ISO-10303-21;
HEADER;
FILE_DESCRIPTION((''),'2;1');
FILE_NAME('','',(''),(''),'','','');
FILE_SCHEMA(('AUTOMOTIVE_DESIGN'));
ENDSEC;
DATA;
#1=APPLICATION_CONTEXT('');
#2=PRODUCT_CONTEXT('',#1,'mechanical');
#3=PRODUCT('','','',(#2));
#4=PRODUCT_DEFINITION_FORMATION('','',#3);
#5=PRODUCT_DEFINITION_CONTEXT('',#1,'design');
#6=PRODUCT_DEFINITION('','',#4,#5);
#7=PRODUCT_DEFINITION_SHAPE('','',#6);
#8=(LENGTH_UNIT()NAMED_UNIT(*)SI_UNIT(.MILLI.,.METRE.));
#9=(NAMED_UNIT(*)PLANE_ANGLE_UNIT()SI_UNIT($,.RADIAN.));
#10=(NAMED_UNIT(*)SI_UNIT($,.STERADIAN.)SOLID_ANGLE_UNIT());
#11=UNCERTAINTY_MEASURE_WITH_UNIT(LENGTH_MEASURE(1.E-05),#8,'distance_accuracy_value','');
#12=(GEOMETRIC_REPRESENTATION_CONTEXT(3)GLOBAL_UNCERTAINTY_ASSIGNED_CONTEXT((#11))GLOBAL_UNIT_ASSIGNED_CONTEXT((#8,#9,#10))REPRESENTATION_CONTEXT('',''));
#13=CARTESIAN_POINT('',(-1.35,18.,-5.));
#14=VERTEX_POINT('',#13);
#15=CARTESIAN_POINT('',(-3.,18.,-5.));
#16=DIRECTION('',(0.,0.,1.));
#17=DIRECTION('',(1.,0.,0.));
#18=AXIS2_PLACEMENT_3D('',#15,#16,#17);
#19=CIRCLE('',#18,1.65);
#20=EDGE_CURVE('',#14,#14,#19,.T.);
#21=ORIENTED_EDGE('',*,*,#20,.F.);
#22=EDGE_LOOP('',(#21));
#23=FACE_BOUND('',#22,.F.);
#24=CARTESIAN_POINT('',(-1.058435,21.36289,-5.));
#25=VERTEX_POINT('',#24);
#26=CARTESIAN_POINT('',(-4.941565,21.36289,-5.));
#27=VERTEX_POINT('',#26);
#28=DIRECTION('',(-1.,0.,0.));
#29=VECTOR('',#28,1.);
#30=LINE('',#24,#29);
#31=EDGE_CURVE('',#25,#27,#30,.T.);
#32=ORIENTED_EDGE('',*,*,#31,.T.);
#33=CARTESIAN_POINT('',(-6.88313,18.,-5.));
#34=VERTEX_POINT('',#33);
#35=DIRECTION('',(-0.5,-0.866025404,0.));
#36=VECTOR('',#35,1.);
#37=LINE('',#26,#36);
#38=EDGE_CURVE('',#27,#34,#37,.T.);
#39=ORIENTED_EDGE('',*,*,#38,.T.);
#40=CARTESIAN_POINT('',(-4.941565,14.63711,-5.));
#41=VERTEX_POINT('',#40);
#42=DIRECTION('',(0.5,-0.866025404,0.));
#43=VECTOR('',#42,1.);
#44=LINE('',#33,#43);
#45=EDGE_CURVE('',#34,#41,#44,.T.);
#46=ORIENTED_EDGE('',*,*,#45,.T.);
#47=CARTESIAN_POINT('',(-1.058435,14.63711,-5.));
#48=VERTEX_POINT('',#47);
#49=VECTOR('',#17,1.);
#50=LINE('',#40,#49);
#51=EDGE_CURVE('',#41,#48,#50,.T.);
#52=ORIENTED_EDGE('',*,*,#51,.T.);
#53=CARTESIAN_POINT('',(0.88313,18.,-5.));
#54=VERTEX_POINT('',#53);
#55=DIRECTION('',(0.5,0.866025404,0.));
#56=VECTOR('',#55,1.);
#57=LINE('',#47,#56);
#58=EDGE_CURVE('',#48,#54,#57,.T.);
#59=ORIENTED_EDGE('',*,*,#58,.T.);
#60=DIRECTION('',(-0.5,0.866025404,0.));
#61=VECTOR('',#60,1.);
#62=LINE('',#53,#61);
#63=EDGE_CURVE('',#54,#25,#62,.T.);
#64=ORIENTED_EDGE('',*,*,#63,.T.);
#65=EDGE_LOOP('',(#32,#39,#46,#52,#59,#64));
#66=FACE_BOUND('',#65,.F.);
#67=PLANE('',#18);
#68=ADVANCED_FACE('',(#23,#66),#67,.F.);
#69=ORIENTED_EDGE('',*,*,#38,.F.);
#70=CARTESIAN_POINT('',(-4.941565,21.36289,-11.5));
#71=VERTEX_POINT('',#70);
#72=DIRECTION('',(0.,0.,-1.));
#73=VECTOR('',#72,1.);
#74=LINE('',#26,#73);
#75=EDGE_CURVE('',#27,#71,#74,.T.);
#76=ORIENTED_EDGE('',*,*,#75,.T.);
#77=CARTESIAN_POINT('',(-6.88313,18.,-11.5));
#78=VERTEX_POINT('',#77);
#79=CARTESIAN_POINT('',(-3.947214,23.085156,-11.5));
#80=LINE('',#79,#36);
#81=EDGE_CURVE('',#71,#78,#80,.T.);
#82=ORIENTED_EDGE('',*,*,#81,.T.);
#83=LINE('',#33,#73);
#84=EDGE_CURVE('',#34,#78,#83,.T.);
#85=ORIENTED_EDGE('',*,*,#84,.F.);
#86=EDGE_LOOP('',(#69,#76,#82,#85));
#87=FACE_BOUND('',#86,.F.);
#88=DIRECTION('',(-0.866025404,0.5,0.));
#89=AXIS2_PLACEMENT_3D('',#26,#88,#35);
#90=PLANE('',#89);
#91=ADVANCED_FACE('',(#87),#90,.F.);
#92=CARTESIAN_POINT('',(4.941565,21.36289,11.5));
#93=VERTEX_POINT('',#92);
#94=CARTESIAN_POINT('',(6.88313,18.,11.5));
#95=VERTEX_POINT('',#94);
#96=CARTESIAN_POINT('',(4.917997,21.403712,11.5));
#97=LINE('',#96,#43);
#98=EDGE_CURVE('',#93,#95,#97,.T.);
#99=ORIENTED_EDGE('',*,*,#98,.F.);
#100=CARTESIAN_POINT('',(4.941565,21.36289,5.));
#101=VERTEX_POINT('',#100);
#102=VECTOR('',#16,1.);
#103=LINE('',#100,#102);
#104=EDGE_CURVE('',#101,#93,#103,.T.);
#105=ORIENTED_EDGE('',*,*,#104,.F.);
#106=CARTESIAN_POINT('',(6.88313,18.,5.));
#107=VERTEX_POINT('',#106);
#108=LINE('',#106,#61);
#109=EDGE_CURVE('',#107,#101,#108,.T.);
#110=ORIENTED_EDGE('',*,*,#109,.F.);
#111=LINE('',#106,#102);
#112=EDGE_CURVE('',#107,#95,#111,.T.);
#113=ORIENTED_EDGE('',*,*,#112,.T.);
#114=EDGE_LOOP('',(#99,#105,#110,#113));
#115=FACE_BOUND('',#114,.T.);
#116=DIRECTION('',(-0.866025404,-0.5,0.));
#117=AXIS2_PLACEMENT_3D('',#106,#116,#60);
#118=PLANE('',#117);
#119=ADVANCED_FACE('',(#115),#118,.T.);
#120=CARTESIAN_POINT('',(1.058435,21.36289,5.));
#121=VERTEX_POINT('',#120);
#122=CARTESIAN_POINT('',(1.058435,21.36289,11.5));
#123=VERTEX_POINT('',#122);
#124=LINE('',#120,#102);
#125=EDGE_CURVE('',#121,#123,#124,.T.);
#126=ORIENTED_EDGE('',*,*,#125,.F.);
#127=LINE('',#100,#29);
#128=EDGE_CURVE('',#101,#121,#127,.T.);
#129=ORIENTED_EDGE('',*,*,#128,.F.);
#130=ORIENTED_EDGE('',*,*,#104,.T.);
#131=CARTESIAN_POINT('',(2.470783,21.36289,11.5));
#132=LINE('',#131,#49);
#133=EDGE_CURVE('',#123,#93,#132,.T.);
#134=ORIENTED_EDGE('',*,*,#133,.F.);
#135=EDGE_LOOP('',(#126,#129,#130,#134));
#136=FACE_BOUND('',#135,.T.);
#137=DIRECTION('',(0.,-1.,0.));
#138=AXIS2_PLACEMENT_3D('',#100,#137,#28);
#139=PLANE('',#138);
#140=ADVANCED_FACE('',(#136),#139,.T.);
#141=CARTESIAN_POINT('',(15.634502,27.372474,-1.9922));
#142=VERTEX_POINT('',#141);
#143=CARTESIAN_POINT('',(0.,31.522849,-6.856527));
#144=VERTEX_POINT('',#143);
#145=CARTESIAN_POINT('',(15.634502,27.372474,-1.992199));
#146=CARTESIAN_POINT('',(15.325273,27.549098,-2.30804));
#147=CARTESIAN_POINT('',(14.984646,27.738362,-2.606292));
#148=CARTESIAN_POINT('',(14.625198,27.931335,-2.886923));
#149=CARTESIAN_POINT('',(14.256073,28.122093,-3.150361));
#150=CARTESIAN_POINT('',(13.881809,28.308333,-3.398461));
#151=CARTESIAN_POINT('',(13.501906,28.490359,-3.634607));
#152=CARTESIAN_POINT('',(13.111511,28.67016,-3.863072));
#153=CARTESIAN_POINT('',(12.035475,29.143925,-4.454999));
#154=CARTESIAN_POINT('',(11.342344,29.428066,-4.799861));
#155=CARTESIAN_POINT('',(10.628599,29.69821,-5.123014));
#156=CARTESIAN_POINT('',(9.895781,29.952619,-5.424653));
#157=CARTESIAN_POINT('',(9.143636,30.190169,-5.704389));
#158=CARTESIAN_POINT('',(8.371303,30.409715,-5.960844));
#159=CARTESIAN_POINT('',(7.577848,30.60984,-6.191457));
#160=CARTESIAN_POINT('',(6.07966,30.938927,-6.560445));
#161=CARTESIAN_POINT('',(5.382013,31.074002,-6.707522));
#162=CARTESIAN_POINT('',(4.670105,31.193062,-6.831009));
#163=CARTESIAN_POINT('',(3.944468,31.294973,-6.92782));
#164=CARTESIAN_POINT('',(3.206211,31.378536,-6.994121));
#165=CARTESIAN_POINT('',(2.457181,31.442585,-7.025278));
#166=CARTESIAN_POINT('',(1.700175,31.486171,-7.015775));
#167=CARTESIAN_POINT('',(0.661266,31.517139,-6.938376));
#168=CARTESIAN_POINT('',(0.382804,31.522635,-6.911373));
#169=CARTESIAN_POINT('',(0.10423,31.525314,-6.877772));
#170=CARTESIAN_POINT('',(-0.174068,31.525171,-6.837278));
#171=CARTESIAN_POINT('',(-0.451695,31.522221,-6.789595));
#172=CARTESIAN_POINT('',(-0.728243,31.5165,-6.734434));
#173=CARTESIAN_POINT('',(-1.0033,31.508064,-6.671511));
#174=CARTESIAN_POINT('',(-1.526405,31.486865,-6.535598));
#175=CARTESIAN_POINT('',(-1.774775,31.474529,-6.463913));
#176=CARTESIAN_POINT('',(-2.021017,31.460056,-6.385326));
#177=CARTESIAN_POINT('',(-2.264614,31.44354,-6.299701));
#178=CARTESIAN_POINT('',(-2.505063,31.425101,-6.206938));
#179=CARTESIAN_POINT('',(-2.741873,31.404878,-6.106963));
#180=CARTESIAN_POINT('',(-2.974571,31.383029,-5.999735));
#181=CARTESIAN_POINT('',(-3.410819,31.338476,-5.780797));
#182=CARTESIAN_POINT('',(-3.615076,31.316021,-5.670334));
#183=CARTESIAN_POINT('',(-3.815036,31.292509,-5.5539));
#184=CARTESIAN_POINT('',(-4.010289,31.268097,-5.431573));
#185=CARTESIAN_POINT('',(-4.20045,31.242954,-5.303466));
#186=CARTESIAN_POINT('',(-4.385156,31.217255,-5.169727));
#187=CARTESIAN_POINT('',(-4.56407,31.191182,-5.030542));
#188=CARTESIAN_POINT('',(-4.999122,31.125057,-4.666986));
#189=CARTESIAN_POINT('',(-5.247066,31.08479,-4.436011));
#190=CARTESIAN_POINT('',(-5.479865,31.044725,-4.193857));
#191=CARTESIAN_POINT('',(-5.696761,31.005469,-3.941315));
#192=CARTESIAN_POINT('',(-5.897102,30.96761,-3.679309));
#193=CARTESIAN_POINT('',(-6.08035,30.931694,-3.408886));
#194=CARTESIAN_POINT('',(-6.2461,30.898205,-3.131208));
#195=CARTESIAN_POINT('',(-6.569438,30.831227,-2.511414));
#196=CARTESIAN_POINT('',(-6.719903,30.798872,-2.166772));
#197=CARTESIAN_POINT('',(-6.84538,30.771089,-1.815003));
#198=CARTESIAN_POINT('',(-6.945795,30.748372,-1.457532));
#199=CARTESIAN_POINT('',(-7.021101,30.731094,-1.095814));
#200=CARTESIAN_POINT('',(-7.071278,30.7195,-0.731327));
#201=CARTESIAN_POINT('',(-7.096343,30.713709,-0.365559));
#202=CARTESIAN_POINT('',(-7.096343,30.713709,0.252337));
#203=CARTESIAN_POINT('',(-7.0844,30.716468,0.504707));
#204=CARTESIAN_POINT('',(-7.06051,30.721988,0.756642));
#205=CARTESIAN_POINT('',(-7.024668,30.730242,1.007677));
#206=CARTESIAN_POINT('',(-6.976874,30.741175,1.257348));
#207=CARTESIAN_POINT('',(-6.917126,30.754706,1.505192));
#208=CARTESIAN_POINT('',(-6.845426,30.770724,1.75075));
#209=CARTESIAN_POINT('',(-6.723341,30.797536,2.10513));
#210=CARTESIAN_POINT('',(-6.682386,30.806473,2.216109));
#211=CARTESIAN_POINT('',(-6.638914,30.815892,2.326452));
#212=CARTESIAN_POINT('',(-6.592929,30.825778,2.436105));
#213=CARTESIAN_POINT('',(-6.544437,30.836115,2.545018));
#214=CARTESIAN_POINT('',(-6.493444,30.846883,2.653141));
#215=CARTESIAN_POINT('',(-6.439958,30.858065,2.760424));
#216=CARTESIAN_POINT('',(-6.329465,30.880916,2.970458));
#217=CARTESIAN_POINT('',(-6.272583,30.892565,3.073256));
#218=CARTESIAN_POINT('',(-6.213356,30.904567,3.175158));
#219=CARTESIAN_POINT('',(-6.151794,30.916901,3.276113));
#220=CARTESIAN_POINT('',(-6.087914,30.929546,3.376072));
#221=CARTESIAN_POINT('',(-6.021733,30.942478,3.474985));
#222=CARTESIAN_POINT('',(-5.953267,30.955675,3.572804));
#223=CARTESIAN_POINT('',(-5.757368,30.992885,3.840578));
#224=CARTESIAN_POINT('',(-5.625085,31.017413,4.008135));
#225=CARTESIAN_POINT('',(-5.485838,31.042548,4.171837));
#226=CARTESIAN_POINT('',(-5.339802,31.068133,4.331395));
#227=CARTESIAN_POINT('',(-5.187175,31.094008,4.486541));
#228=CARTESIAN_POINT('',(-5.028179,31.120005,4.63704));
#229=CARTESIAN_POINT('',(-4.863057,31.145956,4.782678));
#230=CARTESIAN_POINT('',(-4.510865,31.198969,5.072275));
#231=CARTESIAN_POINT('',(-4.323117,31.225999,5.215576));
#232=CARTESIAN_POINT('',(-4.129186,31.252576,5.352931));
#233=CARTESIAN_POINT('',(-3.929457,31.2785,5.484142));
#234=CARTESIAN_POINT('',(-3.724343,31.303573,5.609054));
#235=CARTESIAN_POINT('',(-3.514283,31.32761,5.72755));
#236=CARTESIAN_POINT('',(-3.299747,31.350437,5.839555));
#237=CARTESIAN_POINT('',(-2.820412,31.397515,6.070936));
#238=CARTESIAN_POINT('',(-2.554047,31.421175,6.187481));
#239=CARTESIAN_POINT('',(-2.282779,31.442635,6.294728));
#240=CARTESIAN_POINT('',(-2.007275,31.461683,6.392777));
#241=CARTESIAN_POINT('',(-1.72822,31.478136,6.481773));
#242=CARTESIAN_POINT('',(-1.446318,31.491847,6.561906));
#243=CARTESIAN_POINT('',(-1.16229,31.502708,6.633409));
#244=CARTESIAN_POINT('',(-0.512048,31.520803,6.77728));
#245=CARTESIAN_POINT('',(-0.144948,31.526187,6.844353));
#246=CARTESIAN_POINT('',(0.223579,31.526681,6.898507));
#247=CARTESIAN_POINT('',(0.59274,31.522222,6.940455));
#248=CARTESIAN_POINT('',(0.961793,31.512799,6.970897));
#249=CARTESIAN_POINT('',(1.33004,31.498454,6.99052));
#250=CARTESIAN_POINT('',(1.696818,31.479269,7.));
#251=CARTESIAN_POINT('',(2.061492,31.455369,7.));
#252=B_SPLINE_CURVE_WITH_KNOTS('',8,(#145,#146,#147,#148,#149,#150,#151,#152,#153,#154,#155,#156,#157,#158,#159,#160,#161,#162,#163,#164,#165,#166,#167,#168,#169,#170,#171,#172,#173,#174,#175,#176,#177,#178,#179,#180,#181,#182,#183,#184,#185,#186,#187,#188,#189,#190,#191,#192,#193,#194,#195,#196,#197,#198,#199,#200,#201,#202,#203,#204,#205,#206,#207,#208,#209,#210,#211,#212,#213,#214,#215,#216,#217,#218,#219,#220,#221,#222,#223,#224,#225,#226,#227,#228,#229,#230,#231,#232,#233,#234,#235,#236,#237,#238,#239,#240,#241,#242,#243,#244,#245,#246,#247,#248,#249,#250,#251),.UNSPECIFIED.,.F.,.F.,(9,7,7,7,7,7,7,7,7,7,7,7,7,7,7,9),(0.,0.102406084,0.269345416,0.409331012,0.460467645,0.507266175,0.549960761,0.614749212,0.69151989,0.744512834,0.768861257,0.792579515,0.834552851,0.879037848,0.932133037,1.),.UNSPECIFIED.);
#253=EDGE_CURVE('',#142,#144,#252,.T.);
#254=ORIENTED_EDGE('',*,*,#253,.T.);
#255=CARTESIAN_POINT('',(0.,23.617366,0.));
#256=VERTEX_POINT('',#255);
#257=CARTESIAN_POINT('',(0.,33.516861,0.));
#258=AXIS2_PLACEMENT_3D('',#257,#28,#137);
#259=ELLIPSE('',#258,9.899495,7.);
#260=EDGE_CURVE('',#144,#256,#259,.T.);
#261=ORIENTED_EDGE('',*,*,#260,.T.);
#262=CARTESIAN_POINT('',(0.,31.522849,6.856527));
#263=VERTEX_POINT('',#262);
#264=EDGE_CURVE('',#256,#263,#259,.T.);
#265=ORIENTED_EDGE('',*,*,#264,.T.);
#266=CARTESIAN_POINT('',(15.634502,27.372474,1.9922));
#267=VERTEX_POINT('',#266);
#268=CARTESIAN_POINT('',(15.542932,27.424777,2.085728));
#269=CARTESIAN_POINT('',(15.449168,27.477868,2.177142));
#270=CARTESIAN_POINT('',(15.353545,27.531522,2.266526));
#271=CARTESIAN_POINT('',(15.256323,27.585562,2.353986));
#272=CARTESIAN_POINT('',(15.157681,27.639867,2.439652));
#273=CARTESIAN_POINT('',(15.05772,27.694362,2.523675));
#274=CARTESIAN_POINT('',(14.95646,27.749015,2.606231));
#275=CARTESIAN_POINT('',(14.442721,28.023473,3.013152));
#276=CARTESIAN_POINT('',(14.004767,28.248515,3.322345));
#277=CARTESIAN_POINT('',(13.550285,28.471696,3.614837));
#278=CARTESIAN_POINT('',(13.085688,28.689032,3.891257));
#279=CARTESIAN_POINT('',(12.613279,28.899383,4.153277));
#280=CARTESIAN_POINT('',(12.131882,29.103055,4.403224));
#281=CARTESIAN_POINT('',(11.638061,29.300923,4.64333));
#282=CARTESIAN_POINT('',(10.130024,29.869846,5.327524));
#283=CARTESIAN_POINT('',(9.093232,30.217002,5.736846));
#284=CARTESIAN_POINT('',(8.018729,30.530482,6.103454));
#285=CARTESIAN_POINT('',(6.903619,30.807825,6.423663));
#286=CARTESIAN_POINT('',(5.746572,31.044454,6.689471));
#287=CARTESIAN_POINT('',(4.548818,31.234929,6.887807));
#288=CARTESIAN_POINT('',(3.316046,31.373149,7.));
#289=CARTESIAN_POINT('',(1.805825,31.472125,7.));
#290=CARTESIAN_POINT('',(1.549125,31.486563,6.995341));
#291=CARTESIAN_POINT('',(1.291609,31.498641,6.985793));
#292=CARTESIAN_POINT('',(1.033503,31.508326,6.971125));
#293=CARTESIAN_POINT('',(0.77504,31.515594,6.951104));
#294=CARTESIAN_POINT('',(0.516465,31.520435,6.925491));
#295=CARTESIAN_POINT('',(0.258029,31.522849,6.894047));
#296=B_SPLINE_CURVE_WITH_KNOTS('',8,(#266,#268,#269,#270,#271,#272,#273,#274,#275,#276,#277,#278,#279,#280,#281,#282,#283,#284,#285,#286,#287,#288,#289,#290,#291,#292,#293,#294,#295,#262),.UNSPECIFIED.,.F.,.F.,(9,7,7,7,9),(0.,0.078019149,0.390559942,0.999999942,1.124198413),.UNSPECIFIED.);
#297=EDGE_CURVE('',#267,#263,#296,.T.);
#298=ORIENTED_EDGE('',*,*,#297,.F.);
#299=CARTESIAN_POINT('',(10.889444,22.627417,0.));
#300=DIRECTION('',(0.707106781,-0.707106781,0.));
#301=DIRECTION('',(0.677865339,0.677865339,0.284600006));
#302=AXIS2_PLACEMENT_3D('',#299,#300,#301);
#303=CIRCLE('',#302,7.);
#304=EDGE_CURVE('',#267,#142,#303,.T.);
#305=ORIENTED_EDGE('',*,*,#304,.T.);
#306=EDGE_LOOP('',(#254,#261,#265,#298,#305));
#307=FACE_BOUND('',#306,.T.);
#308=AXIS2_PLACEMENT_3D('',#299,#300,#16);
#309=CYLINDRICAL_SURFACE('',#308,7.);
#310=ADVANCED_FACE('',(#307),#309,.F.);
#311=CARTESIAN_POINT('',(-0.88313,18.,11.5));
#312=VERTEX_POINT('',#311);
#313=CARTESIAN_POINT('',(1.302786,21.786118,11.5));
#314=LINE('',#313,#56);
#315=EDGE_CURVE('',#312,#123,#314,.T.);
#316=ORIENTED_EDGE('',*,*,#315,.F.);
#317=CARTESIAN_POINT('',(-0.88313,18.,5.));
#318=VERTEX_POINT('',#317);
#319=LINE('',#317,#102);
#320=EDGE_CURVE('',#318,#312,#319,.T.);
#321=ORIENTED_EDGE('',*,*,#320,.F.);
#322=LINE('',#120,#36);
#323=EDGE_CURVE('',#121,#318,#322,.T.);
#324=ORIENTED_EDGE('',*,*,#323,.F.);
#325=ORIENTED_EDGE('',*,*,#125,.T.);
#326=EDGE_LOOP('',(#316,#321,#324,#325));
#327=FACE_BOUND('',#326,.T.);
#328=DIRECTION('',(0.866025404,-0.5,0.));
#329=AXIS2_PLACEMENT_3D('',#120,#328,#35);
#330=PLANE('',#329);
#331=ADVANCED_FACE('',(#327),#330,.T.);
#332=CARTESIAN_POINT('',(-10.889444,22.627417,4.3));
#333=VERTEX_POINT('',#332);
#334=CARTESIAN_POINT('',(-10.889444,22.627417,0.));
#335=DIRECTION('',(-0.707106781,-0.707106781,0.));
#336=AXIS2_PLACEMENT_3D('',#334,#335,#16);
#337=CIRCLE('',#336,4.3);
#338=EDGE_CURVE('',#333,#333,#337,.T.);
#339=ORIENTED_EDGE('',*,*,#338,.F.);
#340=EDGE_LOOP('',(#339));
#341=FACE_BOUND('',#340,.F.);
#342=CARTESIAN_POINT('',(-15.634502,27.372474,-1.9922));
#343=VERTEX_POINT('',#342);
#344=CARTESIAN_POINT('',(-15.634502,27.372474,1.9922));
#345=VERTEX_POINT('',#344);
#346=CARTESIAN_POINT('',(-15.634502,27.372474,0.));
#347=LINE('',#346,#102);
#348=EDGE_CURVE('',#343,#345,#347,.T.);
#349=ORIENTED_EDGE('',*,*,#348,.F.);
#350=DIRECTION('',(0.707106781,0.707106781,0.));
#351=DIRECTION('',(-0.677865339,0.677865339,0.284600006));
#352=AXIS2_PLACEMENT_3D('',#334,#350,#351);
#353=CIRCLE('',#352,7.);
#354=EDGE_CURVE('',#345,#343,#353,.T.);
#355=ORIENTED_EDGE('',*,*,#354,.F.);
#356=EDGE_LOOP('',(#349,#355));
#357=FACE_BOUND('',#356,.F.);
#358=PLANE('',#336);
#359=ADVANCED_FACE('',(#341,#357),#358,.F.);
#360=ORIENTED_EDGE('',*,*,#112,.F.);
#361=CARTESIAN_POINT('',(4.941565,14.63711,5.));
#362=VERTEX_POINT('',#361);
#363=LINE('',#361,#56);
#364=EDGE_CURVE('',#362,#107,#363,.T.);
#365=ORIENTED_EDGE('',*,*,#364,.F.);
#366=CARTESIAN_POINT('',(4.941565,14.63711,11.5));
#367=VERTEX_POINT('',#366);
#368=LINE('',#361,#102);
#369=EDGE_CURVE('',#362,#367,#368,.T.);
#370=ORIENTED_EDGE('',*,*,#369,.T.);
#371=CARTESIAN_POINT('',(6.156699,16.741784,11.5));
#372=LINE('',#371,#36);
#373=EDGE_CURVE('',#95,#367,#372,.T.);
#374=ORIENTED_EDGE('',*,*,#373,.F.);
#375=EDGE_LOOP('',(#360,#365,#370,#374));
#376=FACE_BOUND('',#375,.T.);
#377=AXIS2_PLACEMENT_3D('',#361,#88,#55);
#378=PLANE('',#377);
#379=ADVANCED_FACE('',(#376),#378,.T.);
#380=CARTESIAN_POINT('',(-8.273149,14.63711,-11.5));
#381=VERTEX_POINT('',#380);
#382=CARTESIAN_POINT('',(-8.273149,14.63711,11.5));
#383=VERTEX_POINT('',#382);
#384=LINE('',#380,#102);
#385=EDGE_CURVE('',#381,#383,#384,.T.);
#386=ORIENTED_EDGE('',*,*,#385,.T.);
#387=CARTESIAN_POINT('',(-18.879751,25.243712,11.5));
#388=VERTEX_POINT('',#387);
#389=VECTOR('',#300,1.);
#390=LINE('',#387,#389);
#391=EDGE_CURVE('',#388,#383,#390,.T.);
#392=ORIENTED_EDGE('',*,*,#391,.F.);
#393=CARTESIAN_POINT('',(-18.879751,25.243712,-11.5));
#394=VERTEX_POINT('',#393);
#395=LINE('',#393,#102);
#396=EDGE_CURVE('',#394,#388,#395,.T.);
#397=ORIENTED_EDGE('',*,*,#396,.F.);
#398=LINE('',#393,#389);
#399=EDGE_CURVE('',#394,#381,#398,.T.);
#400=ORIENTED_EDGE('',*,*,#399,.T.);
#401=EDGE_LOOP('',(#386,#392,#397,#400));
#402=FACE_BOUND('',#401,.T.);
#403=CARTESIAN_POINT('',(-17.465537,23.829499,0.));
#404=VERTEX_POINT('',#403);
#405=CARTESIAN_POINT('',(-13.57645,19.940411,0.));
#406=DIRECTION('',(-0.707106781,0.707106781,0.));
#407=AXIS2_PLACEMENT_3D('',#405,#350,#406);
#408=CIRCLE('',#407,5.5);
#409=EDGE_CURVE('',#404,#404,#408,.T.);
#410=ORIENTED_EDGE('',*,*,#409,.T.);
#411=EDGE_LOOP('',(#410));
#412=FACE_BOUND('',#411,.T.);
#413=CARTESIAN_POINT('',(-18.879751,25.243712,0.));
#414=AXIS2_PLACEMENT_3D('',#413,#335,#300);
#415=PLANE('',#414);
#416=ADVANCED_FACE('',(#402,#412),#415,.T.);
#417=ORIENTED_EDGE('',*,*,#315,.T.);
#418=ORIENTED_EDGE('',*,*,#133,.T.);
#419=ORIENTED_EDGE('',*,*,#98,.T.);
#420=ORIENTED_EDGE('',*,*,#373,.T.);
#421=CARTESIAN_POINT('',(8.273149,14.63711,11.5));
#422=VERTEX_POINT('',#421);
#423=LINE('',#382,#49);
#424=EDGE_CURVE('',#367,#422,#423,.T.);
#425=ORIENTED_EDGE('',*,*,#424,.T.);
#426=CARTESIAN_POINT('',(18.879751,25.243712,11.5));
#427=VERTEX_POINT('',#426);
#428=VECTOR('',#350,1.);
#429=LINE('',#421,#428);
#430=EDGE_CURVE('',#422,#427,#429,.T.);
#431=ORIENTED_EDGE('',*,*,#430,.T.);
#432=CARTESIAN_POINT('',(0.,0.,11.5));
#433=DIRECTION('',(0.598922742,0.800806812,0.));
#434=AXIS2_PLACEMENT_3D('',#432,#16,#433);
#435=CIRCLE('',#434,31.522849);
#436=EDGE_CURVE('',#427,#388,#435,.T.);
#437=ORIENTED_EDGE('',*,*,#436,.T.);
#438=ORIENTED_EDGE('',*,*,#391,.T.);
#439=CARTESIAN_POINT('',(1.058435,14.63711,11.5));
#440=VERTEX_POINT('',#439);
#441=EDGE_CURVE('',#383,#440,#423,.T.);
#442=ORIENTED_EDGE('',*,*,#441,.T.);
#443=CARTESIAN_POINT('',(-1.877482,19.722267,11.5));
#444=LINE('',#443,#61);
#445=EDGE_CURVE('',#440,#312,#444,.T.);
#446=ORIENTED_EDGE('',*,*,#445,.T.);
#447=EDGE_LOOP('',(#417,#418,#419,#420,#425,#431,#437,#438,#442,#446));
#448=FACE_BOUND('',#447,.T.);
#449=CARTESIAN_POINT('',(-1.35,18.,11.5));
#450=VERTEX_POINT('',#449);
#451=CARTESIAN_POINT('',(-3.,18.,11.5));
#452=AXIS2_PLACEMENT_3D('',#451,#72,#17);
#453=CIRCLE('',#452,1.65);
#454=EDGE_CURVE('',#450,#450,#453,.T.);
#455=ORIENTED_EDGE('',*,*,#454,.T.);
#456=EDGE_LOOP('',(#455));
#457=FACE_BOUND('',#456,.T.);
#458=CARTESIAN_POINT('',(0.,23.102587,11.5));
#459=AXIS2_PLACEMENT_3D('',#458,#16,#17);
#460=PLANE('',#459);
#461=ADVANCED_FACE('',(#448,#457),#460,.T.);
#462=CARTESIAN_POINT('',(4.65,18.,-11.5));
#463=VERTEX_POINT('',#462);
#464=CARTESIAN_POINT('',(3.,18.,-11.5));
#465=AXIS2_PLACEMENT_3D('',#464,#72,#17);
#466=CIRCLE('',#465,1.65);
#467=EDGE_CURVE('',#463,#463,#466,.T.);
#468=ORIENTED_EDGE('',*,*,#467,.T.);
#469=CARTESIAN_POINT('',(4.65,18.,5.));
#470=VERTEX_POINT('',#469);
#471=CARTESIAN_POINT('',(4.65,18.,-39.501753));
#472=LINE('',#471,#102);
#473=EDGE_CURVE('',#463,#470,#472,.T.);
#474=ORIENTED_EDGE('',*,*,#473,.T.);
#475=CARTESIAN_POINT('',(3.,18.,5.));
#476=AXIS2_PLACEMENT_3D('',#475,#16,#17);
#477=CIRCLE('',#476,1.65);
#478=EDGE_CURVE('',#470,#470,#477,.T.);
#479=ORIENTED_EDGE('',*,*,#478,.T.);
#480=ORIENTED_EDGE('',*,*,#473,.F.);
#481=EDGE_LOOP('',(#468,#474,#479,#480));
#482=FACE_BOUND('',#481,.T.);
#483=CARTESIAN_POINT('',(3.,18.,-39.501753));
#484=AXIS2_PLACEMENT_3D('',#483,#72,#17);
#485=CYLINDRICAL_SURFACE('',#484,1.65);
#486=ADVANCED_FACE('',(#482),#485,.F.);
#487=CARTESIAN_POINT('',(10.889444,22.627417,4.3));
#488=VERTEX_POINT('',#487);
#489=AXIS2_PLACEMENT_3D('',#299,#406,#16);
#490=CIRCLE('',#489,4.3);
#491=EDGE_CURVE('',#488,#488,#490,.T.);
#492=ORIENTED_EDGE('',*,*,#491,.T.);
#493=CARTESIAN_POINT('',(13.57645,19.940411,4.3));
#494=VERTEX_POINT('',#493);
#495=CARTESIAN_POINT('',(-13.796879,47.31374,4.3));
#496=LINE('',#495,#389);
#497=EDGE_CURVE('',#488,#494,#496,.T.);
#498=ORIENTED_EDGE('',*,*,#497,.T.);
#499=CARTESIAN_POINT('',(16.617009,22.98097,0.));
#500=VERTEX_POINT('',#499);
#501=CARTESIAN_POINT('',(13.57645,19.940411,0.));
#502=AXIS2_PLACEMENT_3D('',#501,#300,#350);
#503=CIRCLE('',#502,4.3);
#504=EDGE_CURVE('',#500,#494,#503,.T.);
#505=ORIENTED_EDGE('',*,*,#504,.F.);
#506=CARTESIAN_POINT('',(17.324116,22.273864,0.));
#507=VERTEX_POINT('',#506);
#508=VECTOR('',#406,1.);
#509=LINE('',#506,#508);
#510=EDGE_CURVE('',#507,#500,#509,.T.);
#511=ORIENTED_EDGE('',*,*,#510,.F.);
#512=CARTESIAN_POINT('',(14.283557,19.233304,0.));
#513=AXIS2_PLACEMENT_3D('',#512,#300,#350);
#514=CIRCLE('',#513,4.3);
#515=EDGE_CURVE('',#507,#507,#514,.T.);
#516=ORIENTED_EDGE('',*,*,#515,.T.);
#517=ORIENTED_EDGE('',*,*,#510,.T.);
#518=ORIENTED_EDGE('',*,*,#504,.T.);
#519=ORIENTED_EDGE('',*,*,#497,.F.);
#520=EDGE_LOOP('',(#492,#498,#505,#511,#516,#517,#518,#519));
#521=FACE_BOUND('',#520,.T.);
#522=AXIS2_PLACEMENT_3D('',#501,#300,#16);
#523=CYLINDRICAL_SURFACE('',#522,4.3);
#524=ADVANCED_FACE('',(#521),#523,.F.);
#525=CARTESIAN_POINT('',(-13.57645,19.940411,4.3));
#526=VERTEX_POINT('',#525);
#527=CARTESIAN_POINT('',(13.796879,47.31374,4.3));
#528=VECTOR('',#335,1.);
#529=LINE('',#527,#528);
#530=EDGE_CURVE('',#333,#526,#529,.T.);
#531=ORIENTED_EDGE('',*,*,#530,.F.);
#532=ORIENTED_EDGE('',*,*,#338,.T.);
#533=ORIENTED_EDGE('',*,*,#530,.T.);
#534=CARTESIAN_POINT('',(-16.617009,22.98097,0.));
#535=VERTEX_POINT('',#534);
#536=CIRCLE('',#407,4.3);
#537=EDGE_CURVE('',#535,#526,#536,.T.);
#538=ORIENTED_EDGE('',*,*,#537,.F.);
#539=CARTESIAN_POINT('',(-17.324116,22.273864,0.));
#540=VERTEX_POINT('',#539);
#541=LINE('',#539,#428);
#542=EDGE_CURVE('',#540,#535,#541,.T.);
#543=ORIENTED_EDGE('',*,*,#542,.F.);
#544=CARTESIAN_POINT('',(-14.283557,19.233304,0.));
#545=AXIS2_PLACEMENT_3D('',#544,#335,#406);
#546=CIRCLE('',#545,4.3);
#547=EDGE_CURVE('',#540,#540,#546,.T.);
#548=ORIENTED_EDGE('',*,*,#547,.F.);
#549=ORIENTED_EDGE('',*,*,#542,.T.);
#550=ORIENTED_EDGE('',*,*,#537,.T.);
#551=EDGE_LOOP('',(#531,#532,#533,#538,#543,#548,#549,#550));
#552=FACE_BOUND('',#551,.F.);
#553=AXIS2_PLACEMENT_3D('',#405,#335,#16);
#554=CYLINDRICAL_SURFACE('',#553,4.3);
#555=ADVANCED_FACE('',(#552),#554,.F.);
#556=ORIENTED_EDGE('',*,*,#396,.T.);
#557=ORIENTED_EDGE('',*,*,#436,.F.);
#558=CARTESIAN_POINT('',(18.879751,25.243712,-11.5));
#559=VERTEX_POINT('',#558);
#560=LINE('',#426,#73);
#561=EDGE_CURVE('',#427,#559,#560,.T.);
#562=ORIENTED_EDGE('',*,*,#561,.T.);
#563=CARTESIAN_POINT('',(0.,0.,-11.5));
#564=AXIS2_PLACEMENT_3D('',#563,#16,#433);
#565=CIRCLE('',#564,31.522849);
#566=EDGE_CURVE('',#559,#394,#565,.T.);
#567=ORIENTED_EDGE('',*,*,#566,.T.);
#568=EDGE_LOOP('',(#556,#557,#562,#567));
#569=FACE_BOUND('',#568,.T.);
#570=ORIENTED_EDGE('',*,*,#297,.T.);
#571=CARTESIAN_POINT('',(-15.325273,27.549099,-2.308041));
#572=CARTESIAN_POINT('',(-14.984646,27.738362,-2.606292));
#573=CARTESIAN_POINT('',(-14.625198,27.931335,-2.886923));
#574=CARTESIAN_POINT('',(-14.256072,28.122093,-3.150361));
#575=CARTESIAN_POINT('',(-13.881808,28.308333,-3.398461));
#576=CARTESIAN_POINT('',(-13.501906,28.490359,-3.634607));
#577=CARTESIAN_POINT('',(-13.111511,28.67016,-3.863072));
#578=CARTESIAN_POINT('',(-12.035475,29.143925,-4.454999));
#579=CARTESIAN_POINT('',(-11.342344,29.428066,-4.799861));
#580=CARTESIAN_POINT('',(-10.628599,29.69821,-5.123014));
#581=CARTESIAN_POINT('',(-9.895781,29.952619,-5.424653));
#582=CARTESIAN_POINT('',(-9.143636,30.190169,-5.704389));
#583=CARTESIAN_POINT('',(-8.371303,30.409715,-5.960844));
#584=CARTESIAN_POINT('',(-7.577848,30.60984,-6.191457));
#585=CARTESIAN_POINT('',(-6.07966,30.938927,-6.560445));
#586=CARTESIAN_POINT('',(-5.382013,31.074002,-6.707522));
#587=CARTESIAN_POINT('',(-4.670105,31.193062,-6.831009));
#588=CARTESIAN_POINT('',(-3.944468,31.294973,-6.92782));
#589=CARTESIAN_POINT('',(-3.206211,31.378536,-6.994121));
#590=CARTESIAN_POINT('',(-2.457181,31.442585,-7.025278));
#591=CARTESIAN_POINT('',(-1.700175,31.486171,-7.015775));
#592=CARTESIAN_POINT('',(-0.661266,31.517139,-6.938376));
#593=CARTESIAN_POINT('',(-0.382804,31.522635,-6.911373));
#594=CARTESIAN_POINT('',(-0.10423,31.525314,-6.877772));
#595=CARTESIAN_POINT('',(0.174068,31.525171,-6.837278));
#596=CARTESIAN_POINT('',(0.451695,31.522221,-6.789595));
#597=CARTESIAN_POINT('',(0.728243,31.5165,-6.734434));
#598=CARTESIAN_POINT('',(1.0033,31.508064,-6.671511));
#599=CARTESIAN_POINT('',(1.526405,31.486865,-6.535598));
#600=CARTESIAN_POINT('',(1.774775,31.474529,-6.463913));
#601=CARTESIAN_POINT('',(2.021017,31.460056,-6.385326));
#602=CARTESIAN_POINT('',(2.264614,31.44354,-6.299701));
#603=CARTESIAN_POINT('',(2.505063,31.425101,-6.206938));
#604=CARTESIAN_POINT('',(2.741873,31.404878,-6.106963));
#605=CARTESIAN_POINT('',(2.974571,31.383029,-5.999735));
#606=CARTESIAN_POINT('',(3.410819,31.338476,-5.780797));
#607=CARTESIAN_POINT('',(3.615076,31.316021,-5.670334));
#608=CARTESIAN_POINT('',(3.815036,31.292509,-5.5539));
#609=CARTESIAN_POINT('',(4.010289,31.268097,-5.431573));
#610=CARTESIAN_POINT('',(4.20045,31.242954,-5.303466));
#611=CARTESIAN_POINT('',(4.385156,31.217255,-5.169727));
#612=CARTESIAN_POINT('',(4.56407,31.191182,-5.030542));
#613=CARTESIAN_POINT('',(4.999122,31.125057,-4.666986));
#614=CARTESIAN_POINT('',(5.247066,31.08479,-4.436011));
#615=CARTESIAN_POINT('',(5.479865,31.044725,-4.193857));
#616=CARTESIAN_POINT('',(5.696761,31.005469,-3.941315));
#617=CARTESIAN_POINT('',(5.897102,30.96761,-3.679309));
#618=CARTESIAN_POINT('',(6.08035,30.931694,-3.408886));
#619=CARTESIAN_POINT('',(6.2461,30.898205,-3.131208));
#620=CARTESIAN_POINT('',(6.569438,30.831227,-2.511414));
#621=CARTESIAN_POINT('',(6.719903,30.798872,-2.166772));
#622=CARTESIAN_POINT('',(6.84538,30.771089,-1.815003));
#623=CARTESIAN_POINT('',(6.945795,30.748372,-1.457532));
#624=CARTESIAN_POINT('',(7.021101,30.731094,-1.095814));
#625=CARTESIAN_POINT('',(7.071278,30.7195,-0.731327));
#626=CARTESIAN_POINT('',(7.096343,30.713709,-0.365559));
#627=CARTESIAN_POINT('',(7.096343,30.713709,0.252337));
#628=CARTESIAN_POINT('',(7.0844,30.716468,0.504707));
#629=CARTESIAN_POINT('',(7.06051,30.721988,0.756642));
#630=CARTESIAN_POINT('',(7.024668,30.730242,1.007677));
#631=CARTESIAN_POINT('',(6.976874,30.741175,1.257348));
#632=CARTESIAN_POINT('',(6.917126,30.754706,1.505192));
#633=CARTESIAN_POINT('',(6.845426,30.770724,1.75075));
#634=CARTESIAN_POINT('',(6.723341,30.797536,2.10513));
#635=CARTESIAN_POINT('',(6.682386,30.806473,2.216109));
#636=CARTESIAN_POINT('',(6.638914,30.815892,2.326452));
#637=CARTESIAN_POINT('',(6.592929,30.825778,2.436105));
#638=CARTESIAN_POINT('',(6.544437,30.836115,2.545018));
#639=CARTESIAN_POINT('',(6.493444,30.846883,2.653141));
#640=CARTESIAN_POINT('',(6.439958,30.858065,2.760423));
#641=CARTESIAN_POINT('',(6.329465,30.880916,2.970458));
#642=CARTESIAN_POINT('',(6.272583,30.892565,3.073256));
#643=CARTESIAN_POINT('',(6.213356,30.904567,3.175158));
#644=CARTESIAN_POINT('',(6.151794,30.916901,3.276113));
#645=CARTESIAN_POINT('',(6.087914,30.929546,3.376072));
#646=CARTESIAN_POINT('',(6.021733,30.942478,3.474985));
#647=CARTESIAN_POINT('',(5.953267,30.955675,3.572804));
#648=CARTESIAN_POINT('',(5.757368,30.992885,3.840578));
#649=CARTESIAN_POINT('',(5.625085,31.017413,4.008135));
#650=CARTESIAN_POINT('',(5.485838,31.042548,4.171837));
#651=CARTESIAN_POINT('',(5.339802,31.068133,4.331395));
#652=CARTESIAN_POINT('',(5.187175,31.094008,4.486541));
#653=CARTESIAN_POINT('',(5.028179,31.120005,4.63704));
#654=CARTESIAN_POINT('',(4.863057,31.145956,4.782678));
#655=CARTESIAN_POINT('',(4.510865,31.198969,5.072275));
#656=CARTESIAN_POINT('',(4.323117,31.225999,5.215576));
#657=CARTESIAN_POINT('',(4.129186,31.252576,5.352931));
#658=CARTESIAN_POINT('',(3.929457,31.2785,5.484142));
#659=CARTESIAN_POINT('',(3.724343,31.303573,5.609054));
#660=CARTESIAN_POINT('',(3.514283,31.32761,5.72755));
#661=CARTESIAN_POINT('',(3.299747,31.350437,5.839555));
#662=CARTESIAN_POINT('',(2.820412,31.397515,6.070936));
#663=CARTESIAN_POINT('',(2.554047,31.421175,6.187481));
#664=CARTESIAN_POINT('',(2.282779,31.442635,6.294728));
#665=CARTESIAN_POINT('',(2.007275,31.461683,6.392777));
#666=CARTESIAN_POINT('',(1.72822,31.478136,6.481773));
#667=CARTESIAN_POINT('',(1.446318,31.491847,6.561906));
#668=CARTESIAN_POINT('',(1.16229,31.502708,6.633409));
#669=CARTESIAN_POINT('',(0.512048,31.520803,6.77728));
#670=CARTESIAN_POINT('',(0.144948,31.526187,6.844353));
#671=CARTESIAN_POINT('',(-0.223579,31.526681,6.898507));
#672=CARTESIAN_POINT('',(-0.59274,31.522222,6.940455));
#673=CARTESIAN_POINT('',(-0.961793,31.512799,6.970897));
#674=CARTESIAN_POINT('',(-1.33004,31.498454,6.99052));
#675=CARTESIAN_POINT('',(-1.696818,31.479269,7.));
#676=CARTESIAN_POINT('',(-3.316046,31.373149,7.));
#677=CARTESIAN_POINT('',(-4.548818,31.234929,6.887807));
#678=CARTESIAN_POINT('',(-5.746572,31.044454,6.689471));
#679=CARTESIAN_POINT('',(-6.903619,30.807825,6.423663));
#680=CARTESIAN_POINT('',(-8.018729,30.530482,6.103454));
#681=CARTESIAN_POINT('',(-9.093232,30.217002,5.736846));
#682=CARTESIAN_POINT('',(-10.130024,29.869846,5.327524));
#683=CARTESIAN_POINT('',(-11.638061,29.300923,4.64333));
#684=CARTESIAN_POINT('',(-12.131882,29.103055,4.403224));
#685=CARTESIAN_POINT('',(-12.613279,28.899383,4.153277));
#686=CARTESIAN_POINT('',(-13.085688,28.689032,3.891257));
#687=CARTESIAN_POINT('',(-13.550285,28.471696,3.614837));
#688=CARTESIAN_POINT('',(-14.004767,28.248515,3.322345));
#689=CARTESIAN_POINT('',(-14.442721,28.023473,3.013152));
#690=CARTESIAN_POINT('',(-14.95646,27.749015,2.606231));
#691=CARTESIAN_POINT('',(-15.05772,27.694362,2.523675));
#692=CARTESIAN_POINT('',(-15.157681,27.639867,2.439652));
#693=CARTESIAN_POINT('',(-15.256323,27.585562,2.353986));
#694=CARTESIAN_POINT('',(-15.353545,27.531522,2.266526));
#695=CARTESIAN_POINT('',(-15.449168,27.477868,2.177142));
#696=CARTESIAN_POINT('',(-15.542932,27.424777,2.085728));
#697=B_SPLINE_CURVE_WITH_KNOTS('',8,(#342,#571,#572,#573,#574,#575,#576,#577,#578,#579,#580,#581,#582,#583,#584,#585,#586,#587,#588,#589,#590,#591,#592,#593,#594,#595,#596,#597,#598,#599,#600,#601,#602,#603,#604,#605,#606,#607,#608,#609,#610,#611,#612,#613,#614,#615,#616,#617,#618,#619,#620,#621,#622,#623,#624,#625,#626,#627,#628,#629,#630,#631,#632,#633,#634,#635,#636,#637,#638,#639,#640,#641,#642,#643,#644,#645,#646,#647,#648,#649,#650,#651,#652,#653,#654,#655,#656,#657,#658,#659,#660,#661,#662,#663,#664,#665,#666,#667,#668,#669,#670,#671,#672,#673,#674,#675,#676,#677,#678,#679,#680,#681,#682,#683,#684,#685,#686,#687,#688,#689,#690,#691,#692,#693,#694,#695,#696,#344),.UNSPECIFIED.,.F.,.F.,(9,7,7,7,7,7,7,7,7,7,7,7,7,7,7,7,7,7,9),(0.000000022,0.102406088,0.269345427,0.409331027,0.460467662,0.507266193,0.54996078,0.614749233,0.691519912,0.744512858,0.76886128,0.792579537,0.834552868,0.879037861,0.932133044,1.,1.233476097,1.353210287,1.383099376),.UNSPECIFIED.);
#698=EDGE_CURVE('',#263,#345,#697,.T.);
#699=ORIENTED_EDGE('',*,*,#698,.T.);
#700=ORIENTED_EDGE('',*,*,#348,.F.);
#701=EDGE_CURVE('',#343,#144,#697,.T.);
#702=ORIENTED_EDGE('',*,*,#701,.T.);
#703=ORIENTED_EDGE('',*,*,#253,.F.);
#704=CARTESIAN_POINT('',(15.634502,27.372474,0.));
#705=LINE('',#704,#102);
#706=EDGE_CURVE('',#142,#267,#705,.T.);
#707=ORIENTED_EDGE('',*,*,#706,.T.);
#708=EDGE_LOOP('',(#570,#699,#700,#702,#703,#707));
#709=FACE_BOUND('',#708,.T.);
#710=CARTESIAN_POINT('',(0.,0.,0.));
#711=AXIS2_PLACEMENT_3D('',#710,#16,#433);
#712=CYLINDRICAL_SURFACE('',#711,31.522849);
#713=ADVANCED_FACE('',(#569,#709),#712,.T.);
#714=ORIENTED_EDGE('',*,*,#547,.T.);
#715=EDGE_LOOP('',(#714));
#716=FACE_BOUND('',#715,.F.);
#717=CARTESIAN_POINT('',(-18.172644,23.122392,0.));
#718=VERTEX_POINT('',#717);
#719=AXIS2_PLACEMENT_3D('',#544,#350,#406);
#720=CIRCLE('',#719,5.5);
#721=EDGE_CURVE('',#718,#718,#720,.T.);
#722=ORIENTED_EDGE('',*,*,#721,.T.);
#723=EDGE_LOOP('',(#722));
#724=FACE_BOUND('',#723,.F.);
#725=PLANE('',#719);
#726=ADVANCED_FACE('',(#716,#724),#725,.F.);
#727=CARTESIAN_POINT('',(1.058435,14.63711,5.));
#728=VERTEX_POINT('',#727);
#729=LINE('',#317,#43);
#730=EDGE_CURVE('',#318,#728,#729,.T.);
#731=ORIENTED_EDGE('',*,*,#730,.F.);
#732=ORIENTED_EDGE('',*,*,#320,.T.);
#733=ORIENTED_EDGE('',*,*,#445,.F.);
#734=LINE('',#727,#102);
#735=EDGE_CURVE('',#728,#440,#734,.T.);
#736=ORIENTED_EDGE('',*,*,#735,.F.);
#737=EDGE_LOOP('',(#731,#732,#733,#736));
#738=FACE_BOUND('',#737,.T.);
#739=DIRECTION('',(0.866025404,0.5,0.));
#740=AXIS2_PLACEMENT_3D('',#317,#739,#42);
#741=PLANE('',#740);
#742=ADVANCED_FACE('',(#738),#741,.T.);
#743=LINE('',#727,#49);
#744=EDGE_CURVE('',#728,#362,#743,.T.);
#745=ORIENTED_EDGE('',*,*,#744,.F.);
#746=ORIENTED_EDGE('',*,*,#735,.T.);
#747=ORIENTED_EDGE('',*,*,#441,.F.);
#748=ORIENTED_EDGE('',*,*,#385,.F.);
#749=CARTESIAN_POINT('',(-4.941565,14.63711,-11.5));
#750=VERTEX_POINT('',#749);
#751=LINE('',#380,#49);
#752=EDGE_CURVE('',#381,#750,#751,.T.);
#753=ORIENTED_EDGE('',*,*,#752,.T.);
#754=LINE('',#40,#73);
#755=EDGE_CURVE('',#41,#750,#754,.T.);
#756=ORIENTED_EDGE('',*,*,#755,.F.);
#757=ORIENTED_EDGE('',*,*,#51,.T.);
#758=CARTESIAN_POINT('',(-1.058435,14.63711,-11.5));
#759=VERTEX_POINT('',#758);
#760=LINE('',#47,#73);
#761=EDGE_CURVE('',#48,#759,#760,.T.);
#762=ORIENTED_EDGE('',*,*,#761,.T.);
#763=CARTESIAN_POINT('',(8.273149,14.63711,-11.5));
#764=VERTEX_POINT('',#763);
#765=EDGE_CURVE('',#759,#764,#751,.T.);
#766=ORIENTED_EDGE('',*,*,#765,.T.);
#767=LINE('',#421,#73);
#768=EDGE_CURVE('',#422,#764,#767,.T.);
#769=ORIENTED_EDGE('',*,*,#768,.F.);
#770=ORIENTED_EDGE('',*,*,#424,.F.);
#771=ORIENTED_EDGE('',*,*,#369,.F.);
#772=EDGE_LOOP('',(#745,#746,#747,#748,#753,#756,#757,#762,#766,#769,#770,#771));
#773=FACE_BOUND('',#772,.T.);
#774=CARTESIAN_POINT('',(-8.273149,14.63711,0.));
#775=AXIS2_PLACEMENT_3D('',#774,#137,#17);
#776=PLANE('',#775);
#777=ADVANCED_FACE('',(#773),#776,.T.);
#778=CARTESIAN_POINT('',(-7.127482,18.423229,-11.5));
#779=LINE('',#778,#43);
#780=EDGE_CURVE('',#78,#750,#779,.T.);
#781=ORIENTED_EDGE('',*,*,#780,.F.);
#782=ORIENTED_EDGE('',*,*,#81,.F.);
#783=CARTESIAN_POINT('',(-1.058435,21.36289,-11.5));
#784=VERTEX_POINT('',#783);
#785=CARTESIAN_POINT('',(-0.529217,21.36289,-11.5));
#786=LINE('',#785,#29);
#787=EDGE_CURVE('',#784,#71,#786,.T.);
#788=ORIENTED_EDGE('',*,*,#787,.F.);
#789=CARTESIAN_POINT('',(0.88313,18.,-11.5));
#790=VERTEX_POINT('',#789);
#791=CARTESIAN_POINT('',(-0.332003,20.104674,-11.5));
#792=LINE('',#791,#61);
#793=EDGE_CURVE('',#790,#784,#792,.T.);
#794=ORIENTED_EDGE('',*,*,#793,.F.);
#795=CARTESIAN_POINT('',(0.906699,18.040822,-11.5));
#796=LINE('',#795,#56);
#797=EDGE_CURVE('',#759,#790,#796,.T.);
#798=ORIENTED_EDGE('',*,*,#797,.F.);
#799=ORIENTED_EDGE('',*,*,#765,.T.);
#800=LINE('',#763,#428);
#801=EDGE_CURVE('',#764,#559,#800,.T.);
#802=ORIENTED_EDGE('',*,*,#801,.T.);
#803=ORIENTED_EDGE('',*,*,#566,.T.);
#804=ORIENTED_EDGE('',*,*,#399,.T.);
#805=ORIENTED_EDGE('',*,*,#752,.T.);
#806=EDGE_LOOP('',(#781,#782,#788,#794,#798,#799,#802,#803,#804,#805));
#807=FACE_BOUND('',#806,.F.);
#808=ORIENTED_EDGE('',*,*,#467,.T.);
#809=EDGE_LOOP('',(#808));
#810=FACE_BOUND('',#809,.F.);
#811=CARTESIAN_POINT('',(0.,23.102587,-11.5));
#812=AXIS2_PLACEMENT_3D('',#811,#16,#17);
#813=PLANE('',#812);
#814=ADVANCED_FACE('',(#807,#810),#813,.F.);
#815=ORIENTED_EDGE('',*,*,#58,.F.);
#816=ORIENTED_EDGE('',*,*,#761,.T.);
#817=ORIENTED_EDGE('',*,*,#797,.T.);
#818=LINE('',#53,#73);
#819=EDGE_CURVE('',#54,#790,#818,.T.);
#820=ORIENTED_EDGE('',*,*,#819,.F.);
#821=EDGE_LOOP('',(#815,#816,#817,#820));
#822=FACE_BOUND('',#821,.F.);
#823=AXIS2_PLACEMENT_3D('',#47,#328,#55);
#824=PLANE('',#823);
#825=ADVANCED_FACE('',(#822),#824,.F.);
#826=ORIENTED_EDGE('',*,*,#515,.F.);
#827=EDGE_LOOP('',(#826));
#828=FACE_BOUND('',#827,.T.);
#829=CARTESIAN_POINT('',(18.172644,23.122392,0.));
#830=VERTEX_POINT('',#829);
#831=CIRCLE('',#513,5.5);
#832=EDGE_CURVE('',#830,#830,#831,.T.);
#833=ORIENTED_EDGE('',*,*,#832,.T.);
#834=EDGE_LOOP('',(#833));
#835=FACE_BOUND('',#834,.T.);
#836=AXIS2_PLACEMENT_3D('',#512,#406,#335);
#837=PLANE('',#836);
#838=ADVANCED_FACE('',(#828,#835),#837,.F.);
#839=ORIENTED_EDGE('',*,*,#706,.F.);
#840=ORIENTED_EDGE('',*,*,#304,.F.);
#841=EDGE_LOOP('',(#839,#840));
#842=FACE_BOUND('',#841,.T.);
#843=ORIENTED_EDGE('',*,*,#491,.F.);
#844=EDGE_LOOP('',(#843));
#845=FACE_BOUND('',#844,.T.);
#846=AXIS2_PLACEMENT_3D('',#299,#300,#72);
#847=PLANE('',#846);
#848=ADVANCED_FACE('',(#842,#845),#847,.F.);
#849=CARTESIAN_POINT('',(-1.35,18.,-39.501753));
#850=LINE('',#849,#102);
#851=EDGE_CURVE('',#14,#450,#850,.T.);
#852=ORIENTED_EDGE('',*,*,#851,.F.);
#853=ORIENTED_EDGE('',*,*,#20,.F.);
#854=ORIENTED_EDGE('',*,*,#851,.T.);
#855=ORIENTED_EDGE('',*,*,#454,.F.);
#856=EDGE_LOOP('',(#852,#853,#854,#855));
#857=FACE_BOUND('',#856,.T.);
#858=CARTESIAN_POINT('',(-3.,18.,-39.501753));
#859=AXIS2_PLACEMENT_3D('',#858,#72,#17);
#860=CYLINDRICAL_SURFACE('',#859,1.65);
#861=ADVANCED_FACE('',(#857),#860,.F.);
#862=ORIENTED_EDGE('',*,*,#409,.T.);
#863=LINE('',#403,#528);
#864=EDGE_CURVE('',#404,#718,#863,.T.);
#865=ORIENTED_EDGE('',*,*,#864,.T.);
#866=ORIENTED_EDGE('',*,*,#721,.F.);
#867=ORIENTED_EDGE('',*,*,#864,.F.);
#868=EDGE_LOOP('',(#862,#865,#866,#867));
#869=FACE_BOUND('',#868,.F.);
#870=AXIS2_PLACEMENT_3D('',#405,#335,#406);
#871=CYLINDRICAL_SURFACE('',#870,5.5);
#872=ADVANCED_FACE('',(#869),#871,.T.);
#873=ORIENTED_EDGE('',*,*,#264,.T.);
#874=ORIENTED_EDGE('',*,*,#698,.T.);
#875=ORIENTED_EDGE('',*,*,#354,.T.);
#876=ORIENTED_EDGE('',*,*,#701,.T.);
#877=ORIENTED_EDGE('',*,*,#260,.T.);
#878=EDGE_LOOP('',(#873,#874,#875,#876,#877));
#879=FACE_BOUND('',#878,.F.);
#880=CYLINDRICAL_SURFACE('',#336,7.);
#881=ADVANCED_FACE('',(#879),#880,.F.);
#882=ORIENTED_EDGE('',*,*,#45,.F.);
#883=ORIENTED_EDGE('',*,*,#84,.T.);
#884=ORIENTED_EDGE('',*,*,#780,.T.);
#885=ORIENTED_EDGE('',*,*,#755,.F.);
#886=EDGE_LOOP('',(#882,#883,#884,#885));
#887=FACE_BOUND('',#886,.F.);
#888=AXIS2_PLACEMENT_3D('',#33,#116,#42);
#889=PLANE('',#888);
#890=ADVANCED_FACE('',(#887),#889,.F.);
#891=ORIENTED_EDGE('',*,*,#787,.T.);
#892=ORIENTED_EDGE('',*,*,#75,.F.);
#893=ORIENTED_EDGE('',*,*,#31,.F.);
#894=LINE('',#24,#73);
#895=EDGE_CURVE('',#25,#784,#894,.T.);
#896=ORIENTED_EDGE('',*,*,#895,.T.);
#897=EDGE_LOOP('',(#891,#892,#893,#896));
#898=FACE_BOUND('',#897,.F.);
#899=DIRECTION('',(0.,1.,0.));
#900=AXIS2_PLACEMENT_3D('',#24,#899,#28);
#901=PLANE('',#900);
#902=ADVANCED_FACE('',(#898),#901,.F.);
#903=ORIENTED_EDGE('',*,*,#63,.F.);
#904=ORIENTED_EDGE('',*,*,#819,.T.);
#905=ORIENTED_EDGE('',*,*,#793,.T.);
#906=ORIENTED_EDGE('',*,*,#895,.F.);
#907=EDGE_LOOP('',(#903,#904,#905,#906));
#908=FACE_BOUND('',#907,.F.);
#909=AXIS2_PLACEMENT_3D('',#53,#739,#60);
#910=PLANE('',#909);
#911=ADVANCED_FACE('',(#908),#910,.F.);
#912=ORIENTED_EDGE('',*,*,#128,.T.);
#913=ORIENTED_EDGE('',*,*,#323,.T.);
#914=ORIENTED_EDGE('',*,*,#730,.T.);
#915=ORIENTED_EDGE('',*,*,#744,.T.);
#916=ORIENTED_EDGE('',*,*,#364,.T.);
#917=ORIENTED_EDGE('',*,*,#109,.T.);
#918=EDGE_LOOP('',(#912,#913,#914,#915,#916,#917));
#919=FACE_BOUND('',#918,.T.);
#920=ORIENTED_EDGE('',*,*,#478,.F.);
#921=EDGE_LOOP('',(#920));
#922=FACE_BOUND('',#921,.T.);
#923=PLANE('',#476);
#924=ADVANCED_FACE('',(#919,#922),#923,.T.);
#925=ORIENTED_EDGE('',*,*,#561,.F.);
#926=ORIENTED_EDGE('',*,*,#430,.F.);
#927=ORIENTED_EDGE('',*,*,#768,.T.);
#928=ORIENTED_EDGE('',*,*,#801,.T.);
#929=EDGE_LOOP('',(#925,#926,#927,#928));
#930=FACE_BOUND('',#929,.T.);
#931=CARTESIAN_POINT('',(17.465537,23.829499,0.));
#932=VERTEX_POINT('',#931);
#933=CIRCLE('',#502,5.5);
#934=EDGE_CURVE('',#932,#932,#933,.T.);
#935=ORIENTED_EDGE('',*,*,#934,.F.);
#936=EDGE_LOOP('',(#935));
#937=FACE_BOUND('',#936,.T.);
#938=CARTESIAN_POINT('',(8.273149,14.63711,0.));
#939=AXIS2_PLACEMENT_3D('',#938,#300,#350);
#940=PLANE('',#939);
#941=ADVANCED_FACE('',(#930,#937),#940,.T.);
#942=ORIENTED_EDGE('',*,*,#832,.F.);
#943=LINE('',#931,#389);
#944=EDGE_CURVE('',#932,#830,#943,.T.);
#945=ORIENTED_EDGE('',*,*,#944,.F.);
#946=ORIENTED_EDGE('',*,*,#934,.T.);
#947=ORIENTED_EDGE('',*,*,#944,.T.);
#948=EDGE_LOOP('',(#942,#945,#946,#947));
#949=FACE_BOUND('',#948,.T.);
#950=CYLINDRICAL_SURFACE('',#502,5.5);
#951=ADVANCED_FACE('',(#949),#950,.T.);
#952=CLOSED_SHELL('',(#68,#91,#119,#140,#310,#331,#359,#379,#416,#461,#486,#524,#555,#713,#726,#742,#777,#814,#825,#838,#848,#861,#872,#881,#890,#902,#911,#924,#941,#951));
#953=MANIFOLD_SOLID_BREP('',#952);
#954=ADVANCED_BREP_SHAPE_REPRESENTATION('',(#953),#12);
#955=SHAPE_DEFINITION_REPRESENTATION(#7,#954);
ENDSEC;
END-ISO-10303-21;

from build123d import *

# Parameters (mm, degrees)
BOSS_EXTRUDE1_DEPTH     = 11.5
SKETCH7_R               = 4.300000000000005
CUT_EXTRUDE5_DEPTH      = 38.71173316494823
CUT_EXTRUDE6_START      = -3.8
SKETCH7_3_R             = 7.000000000000001
SKETCH7_3_R_2           = 4.300000000000005
CUT_EXTRUDE6_DEPTH      = 34.911733336115425
CUT_EXTRUDE7_DEPTH      = 39.5017533676133
CUT_EXTRUDE7_DEPTH_BACK = 39.5017533676133
SKETCH8_R               = 1.6499999999999981
SKETCH8_R_2             = 1.6499999999999992
CUT_EXTRUDE8_START      = -5
SKETCH8_3_R             = 1.6499999999999981
CUT_EXTRUDE8_DEPTH      = 34.5017533676133
CUT_EXTRUDE9_START      = 5
SKETCH8_4_R             = 1.6499999999999992
CUT_EXTRUDE9_DEPTH      = 34.5017533676133


with BuildPart() as part:
    # Sketch4 → Boss-Extrude1 (new, symmetric)
    with BuildSketch(Plane.XY):
        with BuildLine():
            ThreePointArc((18.879751057680817, 25.243712088359754), (-4.174e-14, 31.52284885602822), (-18.879751057680878, 25.243712088359697))
            Line((-18.879751057680878, 25.243712088359697), (-17.465537495307785, 23.829498525986608))
            Line((-17.465537495307785, 23.829498525986608), (-16.617009357883926, 22.980970388562753))
            Line((-16.617009357883926, 22.980970388562753), (-13.57645019878176, 19.940411229460604))
            Line((-13.57645019878176, 19.940411229460604), (-9.687362902255748, 16.051323932934608))
            Line((-9.687362902255748, 16.051323932934608), (-8.27314933988264, 14.637110370561505))
            Line((-8.27314933988264, 14.637110370561505), (8.273149339882583, 14.637110370561558))
            Line((8.273149339882583, 14.637110370561558), (9.687362902255678, 16.05132393293465))
            Line((9.687362902255678, 16.05132393293465), (13.576450198781696, 19.940411229460654))
            Line((13.576450198781696, 19.940411229460654), (16.617009357883855, 22.980970388562802))
            Line((16.617009357883855, 22.980970388562802), (17.465537495307714, 23.82949852598666))
            Line((17.465537495307714, 23.82949852598666), (18.879751057680814, 25.243712088359754))
        make_face()
    extrude(amount=BOSS_EXTRUDE1_DEPTH, both=True)

    # Sketch4<3> → Revolve1 (revolve)
    with BuildSketch(Plane.XY):
        Polygon((-16.617009357883926, 22.980970388562753), (-17.465537495307785, 23.829498525986608), (-18.172644276494324, 23.12239174480006), (-17.32411613907047, 22.273863607376207), align=None)
    revolve1 = revolve(axis=Axis((-14.283556979968314, 19.23330444827406, 0), (0.7071067811865528, 0.7071067811865424, 0)))

    # Sketch7 → Cut-Extrude5 (cut, symmetric)
    with BuildSketch(Plane(origin=(3.1819805153394545, 3.1819805153394696, 0), x_dir=(0, 0, 1), z_dir=(-0.707106781186546, -0.707106781186549, 0))):
        with Locations((0, 23.700000000000003)):
            Circle(SKETCH7_R)
    cut_extrude5 = extrude(amount=CUT_EXTRUDE5_DEPTH, both=True, mode=Mode.SUBTRACT)

    # Sketch7<3> → Cut-Extrude6 (cut, through all)
    with BuildSketch(Plane(origin=(3.1819805153394545, 3.1819805153394696, 0), x_dir=(0, 0, 1), z_dir=(-0.707106781186546, -0.707106781186549, 0)).offset(CUT_EXTRUDE6_START)):
        with Locations((0, 23.700000000000003)):
            Circle(SKETCH7_3_R)
        with Locations((0, 23.700000000000003)):
            Circle(SKETCH7_3_R_2, mode=Mode.SUBTRACT)
    cut_extrude6 = extrude(amount=-CUT_EXTRUDE6_DEPTH, mode=Mode.SUBTRACT)

    # Mirror2: Revolve1, Cut-Extrude5, Cut-Extrude6 across plane
    add(revolve1.mirror(Plane(origin=(0, 0, 0), x_dir=(0, 0, 1), z_dir=(1, 0, 0))))
    add(cut_extrude5.mirror(Plane(origin=(0, 0, 0), x_dir=(0, 0, 1), z_dir=(1, 0, 0))), mode=Mode.SUBTRACT)
    add(cut_extrude6.mirror(Plane(origin=(0, 0, 0), x_dir=(0, 0, 1), z_dir=(1, 0, 0))), mode=Mode.SUBTRACT)

    # Sketch8 → Cut-Extrude7 (cut, two sides: drawn at the far end of the back side and taken through both)
    with BuildSketch(Plane.XY.offset(-CUT_EXTRUDE7_DEPTH_BACK)):
        with Locations((-3, 18)):
            Circle(SKETCH8_R)
        with Locations((3, 18)):
            Circle(SKETCH8_R_2)
    extrude(amount=CUT_EXTRUDE7_DEPTH + CUT_EXTRUDE7_DEPTH_BACK, mode=Mode.SUBTRACT)

    # Sketch8<3> → Cut-Extrude8 (cut, through all)
    with BuildSketch(Plane.XY.offset(CUT_EXTRUDE8_START)):
        Polygon((-4.941565232811313, 21.362889629438488), (-6.8831304656226235, 18), (-4.941565232811313, 14.63711037056151), (-1.0584347671886887, 14.63711037056151), (0.8831304656226224, 18), (-1.058434767188688, 21.362889629438488), align=None)
        with Locations((-3, 18)):
            Circle(SKETCH8_3_R, mode=Mode.SUBTRACT)
    extrude(amount=-CUT_EXTRUDE8_DEPTH, mode=Mode.SUBTRACT)

    # Sketch8<4> → Cut-Extrude9 (cut, through all)
    with BuildSketch(Plane.XY.offset(CUT_EXTRUDE9_START)):
        Polygon((-0.8831304656226175, 18.000000000000004), (1.0584347671886944, 14.63711037056151), (4.941565232811313, 14.63711037056151), (6.883130465622625, 18), (4.941565232811314, 21.362889629438488), (1.0584347671886913, 21.362889629438488), align=None)
        with Locations((3, 18)):
            Circle(SKETCH8_4_R, mode=Mode.SUBTRACT)
    extrude(amount=CUT_EXTRUDE9_DEPTH, mode=Mode.SUBTRACT)


solid = part.part
